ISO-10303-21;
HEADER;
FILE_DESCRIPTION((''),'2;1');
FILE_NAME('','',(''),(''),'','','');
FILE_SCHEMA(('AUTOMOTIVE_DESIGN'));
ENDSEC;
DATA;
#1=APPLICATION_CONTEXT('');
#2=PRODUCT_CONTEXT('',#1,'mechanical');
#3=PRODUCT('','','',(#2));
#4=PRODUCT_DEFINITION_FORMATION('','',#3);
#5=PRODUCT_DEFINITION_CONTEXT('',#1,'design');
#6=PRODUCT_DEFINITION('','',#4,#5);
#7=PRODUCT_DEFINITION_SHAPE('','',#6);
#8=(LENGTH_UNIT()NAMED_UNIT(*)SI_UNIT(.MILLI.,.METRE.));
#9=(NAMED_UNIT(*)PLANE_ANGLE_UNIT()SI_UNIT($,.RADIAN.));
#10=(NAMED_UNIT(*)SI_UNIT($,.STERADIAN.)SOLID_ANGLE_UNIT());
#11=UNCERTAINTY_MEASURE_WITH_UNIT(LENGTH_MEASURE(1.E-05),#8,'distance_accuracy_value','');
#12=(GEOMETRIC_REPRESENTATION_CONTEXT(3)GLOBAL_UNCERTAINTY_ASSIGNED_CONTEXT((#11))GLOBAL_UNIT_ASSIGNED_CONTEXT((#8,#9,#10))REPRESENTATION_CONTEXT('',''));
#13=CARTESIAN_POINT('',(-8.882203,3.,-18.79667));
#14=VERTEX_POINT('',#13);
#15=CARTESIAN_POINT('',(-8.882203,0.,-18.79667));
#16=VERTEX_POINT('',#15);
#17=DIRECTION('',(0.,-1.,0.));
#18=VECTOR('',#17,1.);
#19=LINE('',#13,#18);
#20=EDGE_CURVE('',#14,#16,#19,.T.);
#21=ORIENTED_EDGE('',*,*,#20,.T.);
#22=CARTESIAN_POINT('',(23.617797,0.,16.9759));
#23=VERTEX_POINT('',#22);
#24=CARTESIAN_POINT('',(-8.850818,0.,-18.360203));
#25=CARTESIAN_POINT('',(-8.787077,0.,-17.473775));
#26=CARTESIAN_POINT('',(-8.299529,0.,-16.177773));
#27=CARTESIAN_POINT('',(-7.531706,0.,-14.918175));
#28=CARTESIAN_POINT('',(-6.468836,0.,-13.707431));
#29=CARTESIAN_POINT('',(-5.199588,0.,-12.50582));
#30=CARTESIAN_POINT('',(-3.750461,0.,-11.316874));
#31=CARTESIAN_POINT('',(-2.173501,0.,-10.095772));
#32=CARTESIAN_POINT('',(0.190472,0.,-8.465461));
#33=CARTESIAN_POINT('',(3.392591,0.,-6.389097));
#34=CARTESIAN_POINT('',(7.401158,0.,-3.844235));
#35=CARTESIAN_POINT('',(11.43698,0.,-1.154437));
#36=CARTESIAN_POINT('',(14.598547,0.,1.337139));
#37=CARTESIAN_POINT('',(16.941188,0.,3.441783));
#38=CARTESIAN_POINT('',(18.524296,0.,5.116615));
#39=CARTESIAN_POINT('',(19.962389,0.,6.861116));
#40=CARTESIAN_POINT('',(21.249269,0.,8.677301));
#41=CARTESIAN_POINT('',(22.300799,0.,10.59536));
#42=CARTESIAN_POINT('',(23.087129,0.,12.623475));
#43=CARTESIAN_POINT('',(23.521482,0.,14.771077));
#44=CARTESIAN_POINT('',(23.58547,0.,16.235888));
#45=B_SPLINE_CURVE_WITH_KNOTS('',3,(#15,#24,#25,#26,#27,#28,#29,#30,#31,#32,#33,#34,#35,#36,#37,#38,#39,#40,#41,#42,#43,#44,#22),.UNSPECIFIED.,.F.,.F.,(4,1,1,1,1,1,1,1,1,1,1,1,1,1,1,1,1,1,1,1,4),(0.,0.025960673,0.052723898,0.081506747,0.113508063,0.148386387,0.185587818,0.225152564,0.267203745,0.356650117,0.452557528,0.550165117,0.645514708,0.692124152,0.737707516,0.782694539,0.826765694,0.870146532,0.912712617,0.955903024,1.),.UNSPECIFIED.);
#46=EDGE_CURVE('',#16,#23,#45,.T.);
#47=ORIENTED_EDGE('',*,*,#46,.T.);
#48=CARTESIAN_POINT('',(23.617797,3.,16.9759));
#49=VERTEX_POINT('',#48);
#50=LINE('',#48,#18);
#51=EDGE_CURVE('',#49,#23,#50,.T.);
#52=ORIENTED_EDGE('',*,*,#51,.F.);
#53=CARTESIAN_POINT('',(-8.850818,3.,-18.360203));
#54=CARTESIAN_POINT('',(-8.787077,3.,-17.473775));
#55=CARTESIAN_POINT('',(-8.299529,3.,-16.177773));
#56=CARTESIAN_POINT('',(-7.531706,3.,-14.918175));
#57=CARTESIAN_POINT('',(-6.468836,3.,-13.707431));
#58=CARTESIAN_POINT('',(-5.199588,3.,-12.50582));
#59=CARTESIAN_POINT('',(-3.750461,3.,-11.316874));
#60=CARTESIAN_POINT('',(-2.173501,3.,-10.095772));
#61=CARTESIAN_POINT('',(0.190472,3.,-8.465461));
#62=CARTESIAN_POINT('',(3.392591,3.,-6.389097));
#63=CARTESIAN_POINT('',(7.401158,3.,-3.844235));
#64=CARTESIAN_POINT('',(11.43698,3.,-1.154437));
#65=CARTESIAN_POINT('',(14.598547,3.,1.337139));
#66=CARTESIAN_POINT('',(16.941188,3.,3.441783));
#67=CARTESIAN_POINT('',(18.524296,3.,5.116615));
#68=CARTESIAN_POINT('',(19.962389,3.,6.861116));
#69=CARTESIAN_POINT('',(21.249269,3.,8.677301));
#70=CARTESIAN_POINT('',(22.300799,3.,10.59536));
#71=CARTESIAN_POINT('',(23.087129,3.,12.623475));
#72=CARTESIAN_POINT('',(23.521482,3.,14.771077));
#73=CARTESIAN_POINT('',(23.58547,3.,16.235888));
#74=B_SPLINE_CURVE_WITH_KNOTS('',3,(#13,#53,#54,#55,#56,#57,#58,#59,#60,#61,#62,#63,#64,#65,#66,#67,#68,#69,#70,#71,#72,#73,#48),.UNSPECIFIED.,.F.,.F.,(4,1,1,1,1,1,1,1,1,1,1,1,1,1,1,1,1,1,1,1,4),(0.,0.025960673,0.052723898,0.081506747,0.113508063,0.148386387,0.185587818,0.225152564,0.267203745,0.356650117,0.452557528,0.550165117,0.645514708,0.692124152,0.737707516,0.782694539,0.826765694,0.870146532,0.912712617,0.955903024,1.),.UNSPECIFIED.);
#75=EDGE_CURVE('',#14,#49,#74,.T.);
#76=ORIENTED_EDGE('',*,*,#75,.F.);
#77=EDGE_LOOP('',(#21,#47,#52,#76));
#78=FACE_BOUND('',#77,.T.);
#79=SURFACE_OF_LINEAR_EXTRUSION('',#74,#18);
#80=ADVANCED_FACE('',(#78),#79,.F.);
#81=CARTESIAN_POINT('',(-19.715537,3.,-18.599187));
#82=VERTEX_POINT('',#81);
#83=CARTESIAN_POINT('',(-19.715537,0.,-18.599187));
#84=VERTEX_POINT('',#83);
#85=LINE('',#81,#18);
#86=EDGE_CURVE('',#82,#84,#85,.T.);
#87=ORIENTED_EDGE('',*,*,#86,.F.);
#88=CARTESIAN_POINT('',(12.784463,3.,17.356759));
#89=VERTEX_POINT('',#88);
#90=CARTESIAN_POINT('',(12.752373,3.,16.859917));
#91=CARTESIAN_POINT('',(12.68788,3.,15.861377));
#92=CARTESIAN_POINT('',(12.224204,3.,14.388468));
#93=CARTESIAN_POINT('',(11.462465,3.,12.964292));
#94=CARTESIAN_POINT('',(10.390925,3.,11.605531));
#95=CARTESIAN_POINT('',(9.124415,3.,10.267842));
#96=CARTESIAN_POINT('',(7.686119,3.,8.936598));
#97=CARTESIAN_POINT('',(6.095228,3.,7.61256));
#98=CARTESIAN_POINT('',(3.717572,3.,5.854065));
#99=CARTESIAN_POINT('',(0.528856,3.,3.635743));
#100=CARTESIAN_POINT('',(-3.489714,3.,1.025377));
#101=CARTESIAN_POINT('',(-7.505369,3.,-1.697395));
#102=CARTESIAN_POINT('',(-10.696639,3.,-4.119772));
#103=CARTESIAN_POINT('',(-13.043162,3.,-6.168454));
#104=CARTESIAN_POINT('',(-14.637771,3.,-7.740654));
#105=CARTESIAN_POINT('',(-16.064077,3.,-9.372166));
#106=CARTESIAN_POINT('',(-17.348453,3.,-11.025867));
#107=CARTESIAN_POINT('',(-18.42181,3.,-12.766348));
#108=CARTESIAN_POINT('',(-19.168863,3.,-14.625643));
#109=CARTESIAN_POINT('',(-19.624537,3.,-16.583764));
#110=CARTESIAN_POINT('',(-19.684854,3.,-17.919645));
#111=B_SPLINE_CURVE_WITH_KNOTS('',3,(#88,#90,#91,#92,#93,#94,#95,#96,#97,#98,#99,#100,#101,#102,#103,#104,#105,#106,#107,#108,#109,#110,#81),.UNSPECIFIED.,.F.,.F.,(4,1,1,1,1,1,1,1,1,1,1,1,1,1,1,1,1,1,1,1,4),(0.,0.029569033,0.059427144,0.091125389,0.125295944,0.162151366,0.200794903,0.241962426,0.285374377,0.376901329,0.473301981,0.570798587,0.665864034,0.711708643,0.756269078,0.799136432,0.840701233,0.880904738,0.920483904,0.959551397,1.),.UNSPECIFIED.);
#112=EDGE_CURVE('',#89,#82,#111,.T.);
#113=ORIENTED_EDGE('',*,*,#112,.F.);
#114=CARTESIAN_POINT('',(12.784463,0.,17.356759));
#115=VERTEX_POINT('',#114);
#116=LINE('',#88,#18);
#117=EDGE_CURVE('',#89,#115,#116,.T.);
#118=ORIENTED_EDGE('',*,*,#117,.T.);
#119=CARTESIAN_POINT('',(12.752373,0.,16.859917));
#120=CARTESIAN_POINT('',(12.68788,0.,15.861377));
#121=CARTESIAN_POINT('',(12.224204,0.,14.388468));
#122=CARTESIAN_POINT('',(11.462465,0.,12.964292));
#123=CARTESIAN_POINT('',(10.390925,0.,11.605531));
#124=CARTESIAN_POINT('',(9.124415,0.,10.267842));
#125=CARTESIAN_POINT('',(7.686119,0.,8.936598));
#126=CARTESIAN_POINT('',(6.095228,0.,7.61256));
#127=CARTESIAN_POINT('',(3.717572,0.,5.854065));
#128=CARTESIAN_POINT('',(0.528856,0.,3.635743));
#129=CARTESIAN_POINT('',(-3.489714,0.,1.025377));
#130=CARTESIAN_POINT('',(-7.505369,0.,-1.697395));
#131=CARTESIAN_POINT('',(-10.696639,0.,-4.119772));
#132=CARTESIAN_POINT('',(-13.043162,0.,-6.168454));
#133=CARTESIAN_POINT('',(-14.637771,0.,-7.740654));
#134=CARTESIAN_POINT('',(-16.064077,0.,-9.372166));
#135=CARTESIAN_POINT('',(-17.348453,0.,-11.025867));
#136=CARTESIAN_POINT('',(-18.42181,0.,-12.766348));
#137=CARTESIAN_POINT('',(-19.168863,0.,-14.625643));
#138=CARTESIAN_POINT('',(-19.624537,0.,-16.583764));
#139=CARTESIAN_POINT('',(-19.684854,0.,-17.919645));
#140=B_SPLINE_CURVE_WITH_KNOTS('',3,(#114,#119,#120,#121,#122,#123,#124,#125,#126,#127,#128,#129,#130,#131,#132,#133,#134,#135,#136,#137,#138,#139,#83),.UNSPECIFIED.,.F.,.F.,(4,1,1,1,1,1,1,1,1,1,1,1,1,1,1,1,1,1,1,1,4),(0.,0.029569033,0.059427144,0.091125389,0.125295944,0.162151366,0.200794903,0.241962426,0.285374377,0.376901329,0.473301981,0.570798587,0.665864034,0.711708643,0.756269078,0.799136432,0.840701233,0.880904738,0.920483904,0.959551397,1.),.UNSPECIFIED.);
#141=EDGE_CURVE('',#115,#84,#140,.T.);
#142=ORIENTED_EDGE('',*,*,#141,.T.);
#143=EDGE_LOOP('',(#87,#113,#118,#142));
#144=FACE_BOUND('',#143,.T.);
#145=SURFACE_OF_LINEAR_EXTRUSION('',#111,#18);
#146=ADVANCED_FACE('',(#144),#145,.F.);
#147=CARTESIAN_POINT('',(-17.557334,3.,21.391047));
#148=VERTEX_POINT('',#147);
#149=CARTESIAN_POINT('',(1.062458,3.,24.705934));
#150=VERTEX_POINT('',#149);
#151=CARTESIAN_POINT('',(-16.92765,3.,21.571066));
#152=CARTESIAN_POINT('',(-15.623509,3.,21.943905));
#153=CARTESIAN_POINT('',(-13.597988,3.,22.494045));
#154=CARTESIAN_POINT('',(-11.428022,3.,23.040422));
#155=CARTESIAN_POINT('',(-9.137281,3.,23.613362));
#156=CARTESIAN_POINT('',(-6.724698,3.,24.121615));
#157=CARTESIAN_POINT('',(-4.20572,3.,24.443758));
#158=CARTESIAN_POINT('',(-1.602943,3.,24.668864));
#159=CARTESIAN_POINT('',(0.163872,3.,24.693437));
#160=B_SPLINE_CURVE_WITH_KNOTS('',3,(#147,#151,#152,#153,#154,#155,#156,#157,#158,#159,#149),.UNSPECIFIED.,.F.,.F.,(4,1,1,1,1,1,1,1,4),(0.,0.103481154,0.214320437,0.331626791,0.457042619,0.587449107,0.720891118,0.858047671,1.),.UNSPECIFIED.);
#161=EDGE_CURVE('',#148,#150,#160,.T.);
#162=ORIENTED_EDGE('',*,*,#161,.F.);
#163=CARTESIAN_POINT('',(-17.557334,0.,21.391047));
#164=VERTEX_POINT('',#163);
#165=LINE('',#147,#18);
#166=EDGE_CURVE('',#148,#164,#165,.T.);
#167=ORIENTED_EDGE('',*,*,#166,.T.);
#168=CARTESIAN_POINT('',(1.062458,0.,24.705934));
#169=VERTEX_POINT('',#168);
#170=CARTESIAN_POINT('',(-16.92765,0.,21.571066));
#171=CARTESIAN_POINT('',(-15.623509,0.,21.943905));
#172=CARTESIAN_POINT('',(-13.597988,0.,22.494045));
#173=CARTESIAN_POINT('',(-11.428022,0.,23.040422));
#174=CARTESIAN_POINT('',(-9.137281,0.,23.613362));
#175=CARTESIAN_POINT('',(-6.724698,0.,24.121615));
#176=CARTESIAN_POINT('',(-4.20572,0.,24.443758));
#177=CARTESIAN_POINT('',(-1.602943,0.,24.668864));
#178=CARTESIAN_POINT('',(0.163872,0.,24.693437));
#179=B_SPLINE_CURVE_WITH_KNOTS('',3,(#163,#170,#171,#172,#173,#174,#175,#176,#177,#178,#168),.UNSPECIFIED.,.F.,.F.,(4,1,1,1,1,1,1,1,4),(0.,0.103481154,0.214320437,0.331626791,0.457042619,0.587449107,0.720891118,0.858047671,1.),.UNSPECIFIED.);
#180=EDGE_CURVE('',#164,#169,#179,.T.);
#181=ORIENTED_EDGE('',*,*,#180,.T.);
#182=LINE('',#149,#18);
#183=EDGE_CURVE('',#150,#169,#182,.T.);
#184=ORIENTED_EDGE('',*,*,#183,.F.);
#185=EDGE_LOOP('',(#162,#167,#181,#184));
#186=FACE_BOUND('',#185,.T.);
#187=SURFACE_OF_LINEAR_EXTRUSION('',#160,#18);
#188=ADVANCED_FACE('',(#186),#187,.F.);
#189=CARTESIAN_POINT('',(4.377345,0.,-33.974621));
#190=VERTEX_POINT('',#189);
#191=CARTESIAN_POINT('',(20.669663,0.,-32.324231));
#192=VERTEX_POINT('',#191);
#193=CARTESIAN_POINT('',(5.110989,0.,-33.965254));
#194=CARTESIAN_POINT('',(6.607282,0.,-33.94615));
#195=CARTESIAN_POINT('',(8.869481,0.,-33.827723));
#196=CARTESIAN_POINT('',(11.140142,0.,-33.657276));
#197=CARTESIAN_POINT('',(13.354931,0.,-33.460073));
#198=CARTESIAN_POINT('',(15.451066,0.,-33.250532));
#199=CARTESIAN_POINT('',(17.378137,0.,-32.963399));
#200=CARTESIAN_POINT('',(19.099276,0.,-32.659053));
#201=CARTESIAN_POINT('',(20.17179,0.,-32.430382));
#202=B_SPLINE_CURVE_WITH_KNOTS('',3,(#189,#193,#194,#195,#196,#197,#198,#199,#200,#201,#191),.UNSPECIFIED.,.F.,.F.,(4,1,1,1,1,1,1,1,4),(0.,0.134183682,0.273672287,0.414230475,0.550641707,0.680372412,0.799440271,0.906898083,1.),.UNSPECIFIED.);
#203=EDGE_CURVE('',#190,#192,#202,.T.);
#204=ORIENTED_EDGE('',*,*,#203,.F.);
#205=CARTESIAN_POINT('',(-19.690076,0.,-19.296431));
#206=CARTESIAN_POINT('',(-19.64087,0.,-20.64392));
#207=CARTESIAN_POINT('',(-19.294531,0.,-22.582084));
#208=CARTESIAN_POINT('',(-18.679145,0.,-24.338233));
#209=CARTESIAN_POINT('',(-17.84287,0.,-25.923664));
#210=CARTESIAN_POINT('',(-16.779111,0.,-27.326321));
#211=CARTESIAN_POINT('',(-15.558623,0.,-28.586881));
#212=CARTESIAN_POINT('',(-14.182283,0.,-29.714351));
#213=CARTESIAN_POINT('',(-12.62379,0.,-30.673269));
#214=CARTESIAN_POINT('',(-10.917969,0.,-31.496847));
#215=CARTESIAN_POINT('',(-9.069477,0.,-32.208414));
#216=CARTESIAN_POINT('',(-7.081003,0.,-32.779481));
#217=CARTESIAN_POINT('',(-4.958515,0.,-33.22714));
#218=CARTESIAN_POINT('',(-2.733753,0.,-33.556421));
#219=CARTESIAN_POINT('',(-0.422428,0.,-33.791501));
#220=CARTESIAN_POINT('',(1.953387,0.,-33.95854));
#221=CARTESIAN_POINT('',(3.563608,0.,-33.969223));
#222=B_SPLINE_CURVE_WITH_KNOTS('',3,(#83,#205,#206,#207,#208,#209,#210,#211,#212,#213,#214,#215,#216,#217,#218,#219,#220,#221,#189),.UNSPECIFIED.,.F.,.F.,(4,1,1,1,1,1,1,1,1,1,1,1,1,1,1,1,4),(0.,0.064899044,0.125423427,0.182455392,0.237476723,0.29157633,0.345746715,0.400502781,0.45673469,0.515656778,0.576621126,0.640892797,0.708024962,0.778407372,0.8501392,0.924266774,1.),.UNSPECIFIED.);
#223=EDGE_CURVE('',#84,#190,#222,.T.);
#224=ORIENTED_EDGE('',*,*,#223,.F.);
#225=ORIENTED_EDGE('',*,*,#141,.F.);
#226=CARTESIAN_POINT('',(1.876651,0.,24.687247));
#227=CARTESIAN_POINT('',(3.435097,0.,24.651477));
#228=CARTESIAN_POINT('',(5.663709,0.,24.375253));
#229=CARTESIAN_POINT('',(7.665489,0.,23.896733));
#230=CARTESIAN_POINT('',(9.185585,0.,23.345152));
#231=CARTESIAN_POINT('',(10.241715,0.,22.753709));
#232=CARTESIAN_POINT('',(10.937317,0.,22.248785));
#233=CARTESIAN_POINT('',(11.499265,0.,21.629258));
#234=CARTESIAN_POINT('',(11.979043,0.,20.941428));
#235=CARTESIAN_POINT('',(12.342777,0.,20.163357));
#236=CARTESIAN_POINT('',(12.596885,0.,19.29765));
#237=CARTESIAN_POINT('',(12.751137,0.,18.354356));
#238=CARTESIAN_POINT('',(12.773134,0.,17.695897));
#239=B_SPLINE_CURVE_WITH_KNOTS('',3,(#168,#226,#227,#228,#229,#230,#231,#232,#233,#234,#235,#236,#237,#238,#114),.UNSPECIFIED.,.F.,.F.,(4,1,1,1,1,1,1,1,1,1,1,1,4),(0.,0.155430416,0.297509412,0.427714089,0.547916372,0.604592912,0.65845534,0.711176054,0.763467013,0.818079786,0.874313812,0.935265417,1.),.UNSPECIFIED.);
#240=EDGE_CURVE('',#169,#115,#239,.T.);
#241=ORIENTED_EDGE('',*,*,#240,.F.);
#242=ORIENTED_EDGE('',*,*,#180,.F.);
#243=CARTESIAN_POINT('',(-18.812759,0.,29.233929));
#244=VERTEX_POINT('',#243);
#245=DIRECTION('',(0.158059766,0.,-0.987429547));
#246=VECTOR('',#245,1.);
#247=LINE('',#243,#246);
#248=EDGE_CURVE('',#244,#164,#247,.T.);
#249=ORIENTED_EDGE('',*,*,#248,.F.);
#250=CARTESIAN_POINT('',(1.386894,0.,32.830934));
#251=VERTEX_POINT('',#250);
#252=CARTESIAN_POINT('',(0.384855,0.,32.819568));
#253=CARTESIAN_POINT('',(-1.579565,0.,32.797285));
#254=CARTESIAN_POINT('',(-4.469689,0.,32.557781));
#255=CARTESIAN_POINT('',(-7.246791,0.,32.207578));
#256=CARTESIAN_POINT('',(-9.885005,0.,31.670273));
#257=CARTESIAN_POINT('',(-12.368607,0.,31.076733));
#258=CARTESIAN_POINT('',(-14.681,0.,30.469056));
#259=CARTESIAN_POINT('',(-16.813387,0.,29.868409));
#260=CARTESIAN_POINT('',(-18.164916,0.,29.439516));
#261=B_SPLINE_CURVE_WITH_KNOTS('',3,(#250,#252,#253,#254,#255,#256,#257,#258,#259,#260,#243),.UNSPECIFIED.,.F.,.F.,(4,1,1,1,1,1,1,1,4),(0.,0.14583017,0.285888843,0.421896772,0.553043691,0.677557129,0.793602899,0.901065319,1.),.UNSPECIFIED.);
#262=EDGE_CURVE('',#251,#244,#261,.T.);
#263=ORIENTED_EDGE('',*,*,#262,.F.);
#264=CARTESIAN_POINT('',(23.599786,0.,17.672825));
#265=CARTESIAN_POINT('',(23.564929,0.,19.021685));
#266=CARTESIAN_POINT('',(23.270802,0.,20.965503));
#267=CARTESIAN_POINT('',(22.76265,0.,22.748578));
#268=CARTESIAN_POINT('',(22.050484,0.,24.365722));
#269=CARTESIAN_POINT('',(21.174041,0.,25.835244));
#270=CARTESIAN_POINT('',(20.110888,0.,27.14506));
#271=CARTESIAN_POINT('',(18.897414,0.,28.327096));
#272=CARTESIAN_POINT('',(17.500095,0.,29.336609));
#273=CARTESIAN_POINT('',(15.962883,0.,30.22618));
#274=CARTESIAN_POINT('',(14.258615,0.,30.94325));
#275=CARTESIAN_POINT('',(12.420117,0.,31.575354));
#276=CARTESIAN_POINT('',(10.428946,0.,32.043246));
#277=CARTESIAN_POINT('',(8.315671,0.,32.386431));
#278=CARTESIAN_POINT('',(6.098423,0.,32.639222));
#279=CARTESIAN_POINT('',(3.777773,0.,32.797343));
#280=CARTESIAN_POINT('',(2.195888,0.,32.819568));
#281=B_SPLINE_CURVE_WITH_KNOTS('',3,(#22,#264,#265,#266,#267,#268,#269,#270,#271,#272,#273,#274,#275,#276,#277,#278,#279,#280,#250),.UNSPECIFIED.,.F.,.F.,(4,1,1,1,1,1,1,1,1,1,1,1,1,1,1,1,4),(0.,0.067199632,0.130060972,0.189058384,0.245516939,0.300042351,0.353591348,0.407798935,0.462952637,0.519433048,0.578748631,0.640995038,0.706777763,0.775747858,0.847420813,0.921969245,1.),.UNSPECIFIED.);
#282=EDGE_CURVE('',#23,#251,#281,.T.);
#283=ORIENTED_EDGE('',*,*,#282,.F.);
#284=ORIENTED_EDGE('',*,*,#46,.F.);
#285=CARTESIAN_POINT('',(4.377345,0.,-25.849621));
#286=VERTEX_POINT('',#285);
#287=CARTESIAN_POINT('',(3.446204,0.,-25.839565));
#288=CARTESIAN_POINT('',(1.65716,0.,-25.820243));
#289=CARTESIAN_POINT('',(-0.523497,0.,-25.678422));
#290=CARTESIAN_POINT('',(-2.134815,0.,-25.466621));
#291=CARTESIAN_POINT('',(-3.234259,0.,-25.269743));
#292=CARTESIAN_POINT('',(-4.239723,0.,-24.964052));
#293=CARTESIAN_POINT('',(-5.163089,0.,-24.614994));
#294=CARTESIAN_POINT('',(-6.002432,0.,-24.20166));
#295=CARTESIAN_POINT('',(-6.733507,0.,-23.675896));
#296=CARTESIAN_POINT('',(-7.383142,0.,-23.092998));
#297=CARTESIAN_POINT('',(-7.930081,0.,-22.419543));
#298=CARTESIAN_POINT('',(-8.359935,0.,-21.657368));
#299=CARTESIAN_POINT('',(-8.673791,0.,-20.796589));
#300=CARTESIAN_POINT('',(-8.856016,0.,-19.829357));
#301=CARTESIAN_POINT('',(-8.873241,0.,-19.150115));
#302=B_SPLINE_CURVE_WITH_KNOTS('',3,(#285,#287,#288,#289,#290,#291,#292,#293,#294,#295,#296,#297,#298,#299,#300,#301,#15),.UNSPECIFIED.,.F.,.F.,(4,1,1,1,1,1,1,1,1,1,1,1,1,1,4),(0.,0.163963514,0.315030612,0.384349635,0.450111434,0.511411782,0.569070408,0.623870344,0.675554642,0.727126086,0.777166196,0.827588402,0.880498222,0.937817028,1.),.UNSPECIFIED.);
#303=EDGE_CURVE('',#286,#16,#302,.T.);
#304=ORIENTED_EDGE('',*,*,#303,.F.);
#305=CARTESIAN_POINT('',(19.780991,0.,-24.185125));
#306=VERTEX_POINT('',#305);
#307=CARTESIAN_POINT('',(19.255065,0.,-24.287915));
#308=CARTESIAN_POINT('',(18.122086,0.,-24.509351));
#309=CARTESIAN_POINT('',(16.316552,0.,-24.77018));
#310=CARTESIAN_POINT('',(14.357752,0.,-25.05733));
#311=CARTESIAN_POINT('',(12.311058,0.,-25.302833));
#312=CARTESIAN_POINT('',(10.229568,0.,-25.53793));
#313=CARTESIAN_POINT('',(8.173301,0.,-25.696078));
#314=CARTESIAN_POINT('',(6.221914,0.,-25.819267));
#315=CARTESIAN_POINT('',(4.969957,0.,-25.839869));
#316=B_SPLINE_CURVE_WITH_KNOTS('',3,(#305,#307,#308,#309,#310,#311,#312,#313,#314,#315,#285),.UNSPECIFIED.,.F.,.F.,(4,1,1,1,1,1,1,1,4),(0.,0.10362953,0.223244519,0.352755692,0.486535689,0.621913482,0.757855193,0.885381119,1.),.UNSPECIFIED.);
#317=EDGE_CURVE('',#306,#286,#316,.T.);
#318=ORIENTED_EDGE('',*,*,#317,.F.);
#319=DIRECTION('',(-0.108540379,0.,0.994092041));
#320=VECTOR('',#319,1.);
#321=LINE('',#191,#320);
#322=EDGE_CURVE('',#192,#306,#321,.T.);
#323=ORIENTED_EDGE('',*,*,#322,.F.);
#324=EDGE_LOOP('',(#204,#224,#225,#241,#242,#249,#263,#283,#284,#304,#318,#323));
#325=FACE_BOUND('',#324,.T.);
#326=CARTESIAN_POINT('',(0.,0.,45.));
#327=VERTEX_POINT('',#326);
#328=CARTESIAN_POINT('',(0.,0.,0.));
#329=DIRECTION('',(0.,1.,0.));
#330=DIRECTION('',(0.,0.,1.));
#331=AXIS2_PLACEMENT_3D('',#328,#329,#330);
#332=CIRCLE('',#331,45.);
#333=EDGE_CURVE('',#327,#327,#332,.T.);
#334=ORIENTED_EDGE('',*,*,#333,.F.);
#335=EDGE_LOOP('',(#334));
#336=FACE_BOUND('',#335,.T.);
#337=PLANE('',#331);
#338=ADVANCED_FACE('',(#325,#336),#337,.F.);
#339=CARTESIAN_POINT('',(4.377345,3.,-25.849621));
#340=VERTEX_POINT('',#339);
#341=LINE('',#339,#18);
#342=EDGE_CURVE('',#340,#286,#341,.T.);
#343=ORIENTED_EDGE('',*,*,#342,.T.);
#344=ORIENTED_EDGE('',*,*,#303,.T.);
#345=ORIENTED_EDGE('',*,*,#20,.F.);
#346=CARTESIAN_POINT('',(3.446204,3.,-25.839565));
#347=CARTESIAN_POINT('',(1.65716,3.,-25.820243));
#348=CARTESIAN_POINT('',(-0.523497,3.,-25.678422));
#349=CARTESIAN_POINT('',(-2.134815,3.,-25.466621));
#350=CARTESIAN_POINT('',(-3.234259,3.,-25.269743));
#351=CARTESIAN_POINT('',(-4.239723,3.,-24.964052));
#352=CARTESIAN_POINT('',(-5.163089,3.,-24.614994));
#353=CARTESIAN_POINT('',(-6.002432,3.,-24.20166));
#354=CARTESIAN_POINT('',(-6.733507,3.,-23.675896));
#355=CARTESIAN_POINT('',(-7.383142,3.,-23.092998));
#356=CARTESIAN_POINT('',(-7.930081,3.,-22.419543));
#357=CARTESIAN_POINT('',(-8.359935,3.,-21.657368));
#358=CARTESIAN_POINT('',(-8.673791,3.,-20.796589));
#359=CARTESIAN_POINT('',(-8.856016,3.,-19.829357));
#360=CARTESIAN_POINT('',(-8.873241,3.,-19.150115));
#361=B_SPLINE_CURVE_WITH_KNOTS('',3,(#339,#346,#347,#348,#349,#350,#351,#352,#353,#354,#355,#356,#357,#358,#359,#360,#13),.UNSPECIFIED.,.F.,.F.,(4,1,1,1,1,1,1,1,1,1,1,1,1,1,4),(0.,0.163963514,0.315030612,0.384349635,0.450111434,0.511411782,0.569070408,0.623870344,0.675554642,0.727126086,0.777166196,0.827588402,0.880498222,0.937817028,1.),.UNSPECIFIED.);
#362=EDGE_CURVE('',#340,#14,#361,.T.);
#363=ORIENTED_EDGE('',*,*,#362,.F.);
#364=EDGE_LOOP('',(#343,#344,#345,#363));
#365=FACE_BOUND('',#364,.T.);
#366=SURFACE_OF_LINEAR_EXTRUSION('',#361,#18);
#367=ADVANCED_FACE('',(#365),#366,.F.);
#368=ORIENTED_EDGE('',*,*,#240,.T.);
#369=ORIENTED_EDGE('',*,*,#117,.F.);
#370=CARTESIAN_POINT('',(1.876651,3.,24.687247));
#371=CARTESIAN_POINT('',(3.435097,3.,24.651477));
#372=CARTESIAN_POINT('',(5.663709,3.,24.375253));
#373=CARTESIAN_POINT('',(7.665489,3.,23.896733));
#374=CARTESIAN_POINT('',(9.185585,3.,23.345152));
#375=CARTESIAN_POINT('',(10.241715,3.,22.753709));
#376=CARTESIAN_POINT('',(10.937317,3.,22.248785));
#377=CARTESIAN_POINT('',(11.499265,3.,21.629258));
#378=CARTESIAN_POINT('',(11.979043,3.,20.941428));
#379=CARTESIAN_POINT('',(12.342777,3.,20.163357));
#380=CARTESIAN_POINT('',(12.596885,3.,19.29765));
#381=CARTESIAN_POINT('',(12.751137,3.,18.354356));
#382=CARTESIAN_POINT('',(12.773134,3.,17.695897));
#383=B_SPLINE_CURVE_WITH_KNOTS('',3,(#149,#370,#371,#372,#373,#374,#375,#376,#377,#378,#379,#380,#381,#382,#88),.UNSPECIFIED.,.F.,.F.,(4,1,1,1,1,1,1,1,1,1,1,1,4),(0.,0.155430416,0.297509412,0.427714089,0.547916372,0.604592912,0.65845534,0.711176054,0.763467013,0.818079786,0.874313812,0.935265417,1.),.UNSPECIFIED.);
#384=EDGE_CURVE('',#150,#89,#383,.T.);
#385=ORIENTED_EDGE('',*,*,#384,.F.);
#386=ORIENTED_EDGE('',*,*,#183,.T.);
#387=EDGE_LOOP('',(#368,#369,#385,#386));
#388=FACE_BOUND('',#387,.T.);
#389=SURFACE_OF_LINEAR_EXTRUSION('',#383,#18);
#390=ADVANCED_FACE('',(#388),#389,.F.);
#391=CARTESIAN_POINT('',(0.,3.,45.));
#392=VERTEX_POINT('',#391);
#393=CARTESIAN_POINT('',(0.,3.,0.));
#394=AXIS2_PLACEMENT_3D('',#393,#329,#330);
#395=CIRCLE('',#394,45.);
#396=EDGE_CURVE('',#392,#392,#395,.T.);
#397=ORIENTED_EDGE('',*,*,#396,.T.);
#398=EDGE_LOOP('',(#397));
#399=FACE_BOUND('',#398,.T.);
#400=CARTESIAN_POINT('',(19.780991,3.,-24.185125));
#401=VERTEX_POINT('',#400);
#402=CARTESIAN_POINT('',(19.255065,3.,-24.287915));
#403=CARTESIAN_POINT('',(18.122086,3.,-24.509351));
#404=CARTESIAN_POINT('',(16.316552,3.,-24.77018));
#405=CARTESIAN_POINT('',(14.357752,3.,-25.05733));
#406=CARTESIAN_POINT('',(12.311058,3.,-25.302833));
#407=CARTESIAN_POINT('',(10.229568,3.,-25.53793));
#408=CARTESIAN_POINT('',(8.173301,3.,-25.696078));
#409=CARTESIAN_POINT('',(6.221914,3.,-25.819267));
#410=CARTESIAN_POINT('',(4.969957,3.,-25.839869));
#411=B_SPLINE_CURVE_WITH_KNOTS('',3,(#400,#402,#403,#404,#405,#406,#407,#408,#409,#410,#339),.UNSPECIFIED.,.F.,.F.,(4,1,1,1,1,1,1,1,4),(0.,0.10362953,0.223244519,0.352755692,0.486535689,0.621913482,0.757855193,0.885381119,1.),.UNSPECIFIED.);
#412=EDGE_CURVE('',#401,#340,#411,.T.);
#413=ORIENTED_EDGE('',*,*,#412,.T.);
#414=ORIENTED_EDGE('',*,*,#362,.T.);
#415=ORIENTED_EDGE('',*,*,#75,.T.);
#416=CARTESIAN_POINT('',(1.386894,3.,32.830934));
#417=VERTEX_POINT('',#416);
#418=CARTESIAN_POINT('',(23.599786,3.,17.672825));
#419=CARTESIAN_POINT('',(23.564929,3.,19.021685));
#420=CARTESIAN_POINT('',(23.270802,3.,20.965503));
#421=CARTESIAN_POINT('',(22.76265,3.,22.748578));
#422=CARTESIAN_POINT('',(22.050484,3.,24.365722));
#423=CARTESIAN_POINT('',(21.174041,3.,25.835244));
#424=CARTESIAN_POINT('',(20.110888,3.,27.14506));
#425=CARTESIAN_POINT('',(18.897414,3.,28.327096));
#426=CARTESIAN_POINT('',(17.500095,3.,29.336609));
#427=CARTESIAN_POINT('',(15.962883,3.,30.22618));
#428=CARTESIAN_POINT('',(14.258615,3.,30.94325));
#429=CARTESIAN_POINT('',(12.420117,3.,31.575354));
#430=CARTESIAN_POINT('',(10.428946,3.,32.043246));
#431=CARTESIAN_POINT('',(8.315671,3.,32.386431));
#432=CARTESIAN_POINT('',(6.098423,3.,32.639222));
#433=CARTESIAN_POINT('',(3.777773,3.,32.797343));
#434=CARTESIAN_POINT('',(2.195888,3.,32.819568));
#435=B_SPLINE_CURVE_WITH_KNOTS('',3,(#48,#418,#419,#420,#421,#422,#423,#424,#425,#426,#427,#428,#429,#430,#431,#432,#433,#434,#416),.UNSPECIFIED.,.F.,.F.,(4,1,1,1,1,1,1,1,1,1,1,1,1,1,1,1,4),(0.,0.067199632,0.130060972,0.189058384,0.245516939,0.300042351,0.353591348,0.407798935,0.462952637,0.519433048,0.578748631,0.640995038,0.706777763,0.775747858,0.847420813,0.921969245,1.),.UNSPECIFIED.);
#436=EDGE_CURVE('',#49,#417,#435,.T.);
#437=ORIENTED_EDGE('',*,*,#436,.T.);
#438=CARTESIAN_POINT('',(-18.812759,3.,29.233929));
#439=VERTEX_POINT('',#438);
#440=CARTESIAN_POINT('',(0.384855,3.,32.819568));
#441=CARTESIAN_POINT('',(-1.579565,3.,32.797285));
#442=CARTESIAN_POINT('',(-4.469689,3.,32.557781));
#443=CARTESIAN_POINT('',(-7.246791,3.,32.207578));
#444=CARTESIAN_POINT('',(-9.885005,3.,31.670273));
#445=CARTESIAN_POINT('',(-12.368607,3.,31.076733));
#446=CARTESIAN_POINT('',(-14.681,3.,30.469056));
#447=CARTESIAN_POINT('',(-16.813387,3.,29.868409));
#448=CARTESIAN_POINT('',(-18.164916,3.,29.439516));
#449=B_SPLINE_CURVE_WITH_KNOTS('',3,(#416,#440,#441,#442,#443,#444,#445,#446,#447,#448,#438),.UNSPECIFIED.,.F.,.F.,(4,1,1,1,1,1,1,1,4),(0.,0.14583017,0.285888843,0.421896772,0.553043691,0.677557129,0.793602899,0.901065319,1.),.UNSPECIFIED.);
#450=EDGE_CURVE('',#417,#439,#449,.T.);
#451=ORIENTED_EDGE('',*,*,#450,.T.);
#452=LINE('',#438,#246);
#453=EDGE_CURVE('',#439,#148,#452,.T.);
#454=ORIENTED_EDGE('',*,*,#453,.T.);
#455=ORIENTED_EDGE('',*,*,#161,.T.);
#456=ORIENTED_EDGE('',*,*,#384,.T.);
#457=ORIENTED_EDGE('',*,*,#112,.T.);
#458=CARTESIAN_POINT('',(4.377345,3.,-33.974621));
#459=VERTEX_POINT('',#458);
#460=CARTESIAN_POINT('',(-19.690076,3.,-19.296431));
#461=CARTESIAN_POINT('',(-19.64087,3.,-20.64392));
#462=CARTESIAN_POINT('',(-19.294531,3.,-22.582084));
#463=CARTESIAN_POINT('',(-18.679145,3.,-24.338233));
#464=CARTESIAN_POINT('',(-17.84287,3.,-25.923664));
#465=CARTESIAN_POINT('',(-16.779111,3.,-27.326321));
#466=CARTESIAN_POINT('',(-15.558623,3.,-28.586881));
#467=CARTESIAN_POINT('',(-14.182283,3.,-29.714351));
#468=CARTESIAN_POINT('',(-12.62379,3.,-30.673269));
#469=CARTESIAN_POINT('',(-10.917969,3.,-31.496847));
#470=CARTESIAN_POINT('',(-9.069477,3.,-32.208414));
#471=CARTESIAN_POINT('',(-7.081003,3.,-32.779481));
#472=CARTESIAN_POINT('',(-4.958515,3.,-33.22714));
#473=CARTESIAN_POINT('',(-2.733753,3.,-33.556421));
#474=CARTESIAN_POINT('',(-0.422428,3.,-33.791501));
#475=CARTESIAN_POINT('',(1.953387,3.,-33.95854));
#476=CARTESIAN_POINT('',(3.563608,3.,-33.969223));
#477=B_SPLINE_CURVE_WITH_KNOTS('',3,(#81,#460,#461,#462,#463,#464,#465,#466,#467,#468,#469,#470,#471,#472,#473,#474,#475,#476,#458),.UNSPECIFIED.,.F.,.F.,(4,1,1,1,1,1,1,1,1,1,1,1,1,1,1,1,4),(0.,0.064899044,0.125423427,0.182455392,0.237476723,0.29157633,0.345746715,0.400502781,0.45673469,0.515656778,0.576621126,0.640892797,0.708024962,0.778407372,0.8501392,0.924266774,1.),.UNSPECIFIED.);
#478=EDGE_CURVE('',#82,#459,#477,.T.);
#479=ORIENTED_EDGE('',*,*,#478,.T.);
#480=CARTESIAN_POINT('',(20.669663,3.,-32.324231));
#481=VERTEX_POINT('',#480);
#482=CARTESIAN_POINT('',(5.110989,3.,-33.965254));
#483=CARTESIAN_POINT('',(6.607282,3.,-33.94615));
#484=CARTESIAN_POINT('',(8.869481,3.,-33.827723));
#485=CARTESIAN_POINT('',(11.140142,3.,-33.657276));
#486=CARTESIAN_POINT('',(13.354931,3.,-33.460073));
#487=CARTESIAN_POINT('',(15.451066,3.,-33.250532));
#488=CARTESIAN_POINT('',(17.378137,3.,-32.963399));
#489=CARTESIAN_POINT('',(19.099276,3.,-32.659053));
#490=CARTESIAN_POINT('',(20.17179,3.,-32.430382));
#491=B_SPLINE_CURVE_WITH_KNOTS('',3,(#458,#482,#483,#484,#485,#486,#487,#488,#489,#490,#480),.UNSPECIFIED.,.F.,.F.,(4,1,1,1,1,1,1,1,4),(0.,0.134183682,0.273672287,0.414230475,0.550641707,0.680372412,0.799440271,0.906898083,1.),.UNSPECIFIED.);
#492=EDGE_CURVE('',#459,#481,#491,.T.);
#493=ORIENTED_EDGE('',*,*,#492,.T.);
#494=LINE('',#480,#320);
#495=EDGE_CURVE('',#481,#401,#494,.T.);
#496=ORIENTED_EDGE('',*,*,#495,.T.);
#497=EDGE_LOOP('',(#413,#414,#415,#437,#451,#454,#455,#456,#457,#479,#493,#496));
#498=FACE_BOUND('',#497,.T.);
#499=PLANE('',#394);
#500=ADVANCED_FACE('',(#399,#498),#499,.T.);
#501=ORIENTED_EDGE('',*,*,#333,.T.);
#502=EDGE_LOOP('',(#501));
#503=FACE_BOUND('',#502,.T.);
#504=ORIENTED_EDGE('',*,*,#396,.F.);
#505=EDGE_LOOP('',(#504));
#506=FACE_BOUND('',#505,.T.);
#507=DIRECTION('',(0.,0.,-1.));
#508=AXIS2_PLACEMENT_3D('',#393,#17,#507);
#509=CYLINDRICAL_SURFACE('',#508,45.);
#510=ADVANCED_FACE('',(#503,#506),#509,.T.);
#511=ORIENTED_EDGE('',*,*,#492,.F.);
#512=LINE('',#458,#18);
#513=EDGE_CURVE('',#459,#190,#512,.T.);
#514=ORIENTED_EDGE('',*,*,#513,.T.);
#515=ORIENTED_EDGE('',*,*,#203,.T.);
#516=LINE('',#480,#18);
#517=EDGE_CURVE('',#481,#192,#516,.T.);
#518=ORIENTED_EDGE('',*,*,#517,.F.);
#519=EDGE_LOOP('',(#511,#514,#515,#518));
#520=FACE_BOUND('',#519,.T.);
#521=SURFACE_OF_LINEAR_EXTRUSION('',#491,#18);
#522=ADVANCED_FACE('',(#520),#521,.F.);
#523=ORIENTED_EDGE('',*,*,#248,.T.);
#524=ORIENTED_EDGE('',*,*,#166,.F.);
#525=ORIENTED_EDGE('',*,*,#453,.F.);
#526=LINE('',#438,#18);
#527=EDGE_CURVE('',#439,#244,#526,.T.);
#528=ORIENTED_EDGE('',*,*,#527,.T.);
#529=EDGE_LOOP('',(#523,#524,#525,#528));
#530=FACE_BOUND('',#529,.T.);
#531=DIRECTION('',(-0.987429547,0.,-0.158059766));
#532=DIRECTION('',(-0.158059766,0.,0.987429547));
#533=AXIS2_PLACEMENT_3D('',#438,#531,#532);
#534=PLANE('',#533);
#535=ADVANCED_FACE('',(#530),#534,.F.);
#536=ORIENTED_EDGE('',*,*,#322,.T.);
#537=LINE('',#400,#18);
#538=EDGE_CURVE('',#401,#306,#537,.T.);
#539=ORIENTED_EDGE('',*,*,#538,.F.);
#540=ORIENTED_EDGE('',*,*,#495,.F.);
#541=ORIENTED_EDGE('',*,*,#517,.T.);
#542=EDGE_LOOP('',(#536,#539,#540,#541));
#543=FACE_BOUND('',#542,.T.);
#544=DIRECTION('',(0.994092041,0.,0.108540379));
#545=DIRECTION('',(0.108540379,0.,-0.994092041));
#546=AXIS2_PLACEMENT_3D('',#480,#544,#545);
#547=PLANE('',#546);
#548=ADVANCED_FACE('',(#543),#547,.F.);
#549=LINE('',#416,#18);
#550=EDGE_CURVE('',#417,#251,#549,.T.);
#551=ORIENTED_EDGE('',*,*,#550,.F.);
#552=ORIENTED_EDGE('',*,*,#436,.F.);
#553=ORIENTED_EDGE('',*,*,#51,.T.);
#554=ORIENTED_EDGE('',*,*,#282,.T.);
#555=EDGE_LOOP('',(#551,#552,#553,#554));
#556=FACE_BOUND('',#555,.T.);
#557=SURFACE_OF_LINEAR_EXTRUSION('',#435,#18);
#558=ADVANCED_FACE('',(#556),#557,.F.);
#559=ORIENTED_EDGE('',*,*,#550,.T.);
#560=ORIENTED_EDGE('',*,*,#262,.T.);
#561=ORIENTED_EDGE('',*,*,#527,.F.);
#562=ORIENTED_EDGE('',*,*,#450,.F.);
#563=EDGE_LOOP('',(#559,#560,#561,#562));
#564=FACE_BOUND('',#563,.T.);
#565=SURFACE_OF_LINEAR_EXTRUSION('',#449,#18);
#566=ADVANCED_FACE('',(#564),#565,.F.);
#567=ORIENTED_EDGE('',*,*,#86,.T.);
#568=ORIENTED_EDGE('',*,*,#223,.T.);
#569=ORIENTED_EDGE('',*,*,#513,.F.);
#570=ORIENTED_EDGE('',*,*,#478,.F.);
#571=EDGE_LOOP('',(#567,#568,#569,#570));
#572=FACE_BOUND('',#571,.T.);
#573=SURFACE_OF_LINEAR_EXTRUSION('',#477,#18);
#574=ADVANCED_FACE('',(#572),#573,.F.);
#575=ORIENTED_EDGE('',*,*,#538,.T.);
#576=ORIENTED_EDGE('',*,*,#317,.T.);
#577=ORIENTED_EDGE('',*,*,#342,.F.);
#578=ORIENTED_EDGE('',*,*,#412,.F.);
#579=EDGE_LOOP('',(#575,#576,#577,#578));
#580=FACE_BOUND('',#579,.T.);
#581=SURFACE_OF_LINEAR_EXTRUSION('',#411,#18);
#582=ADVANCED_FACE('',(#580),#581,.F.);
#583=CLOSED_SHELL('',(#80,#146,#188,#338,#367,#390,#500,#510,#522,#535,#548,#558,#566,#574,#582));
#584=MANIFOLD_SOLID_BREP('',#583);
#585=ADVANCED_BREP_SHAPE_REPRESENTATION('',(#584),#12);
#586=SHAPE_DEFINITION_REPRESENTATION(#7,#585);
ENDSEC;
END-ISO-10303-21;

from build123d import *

# Parameters (mm, degrees)
SKETCH1_R           = 45
BOSS_EXTRUDE1_DEPTH = 3


with BuildPart() as part:
    # Sketch1 → Boss-Extrude1 (new body)
    with BuildSketch(Plane(origin=(0, 0, 0), x_dir=(1, 0, 0), z_dir=(0, 1, 0))):
        with Locations(Location((0, 0, 0), (0, 0, 270))):  # turned: the seam where the file's is
            Circle(SKETCH1_R)
        with BuildLine():
            add(Edge.make_bspline(
                [(19.780990946, 24.185124764), (19.255065107, 24.287914798), (18.122086305, 24.509350826), (16.316551627, 24.770179957), (14.357752418, 25.057330128), (12.311058297, 25.302832973), (10.229567608, 25.537930243), (8.173301101, 25.696077882), (6.221913509, 25.819266557), (4.969956895, 25.839869106), (4.377345112, 25.849621292)],
                knots=[0, 0, 0, 0, 0.829036243, 1.785956155, 2.822045536, 3.89228551, 4.975307857, 6.062841547, 7.083048955, 8, 8, 8, 8], degree=3))
            add(Edge.make_bspline(
                [(4.377345112, 25.849621292), (3.446204146, 25.839565028), (1.65716034, 25.820243466), (-0.523497459, 25.678422406), (-2.134814502, 25.466621363), (-3.234258723, 25.269743374), (-4.239722547, 24.96405185), (-5.163089497, 24.614993657), (-6.002431575, 24.201660489), (-6.733506828, 23.675895663), (-7.383141898, 23.092997796), (-7.930081052, 22.419543279), (-8.359935091, 21.657367799), (-8.673790899, 20.796588784), (-8.856015855, 19.829357364), (-8.873240581, 19.150114951), (-8.882203499, 18.796669903)],
                knots=[0, 0, 0, 0, 2.295489194, 4.410428573, 5.380894891, 6.301560079, 7.159764947, 7.966985716, 8.734184816, 9.457764993, 10.179765198, 10.880326743, 11.586237622, 12.32697511, 13.129438398, 14, 14, 14, 14], degree=3))
            add(Edge.make_bspline(
                [(-8.882203499, 18.796669903), (-8.850818027, 18.360202528), (-8.787076829, 17.473774773), (-8.299529285, 16.177773231), (-7.531705877, 14.918174723), (-6.468835972, 13.707430879), (-5.199588079, 12.505820488), (-3.750460779, 11.316874284), (-2.173501164, 10.095772106), (0.19047217, 8.465461016), (3.392591141, 6.389097084), (7.401158074, 3.84423487), (11.436980484, 1.154437496), (14.598547163, -1.337138932), (16.941188197, -3.441782617), (18.524295541, -5.116615111), (19.962389169, -6.861115679), (21.249269366, -8.677300905), (22.30079899, -10.59536019), (23.087128729, -12.62347507), (23.521482235, -14.771077168), (23.585470219, -16.235887567), (23.617796501, -16.975899541)],
                knots=[0, 0, 0, 0, 0.519213468, 1.054477964, 1.630134935, 2.270161266, 2.967727746, 3.71175636, 4.503051278, 5.34407491, 7.13300234, 9.051150551, 11.003302341, 12.910294161, 13.842483047, 14.754150315, 15.653890787, 16.535313878, 17.40293064, 18.254252337, 19.118060482, 20, 20, 20, 20], degree=3))
            add(Edge.make_bspline(
                [(23.617796501, -16.975899541), (23.599786365, -17.672825423), (23.564928796, -19.021684862), (23.270802134, -20.965503255), (22.762650283, -22.748577872), (22.050483541, -24.36572214), (21.174041496, -25.835244154), (20.110888209, -27.14506), (18.897414426, -28.327096204), (17.50009469, -29.336609406), (15.962883146, -30.226180167), (14.258614821, -30.943249705), (12.420117395, -31.575353637), (10.428945987, -32.043245685), (8.315670511, -32.386430983), (6.098422851, -32.63922249), (3.77777338, -32.797342644), (2.195888092, -32.819567974), (1.386893723, -32.830934264)],
                knots=[0, 0, 0, 0, 1.075194104, 2.080975546, 3.024934148, 3.928271024, 4.800677613, 5.657461563, 6.524782954, 7.407242198, 8.310928775, 9.259978089, 10.255920614, 11.308444205, 12.411965724, 13.558733007, 14.751507922, 16, 16, 16, 16], degree=3))
            add(Edge.make_bspline(
                [(1.386893723, -32.830934264), (0.384854835, -32.819567929), (-1.579565413, -32.797285102), (-4.469689043, -32.557780783), (-7.246791058, -32.207577643), (-9.885005378, -31.670272649), (-12.368606742, -31.076733402), (-14.681000089, -30.469055859), (-16.813387105, -29.868409154), (-18.164915503, -29.439515535), (-18.812759054, -29.233929055)],
                knots=[0, 0, 0, 0, 1.166641361, 2.287110747, 3.375174177, 4.42434953, 5.420457035, 6.34882319, 7.208522552, 8, 8, 8, 8], degree=3))
            Line((-18.812759054, -29.233929055), (-17.557333707, -21.391047111))
            add(Edge.make_bspline(
                [(-17.557333707, -21.391047111), (-16.92765023, -21.571066227), (-15.623509008, -21.943904896), (-13.597987784, -22.494044975), (-11.428021788, -23.040422446), (-9.137280734, -23.613361679), (-6.72469763, -24.121615317), (-4.205720245, -24.443757714), (-1.60294269, -24.668864111), (0.163871673, -24.693436806), (1.062457959, -24.705934264)],
                knots=[0, 0, 0, 0, 0.82784923, 1.714563499, 2.653014331, 3.656340952, 4.699592855, 5.767128945, 6.864381369, 8, 8, 8, 8], degree=3))
            add(Edge.make_bspline(
                [(1.062457959, -24.705934264), (1.876650637, -24.687246807), (3.435097114, -24.651477141), (5.663708681, -24.375253087), (7.66548934, -23.896733066), (9.185584763, -23.345151534), (10.24171498, -22.753709402), (10.937316717, -22.248785046), (11.499265321, -21.629257743), (11.979043163, -20.941428467), (12.342776891, -20.163357249), (12.596885499, -19.297650342), (12.751136892, -18.354355508), (12.773133718, -17.695897336), (12.784463168, -17.356758916)],
                knots=[0, 0, 0, 0, 1.865164993, 3.57011294, 5.132569067, 6.57499646, 7.255114939, 7.901464084, 8.534112646, 9.161604161, 9.81695743, 10.491765748, 11.223185006, 12, 12, 12, 12], degree=3))
            add(Edge.make_bspline(
                [(12.784463168, -17.356758916), (12.752373418, -16.859917427), (12.687880197, -15.861377146), (12.224204459, -14.388468451), (11.462465357, -12.964292087), (10.390925154, -11.60553121), (9.124414869, -10.267841999), (7.686118718, -8.936597872), (6.095227969, -7.612559939), (3.717571546, -5.85406476), (0.52885577, -3.635742908), (-3.489713573, -1.025376634), (-7.505368863, 1.697395276), (-10.696639338, 4.119771578), (-13.043162038, 6.168454152), (-14.637770832, 7.740654265), (-16.064077212, 9.372166101), (-17.348452609, 11.025867113), (-18.42180964, 12.766347784), (-19.168862671, 14.625642809), (-19.624536603, 16.58376369), (-19.684854205, 17.919645128), (-19.715536832, 18.599187264)],
                knots=[0, 0, 0, 0, 0.591380666, 1.188542884, 1.822507787, 2.505918877, 3.243027329, 4.015898054, 4.839248524, 5.707487546, 7.538026587, 9.466039613, 11.415971731, 13.317280673, 14.234172866, 15.125381555, 15.982728632, 16.814024653, 17.618094752, 18.409678073, 19.191027939, 20, 20, 20, 20], degree=3))
            add(Edge.make_bspline(
                [(-19.715536832, 18.599187264), (-19.69007572, 19.296431103), (-19.640869758, 20.643919536), (-19.294531368, 22.582084159), (-18.679144546, 24.338232741), (-17.842869563, 25.923663704), (-16.779110741, 27.326321286), (-15.558622534, 28.586881396), (-14.182283058, 29.714351392), (-12.623789919, 30.673268851), (-10.917968821, 31.496846545), (-9.069476595, 32.208414475), (-7.081002803, 32.779480609), (-4.958515074, 33.227140213), (-2.733752509, 33.556420942), (-0.422428367, 33.79150112), (1.95338712, 33.958539874), (3.563608319, 33.969222666), (4.377345112, 33.974621292)],
                knots=[0, 0, 0, 0, 1.03838471, 2.006774832, 2.919286264, 3.799627568, 4.665221273, 5.531947435, 6.40804449, 7.307755042, 8.250508454, 9.225938019, 10.254284747, 11.328399385, 12.454517948, 13.602227205, 14.788268378, 16, 16, 16, 16], degree=3))
            add(Edge.make_bspline(
                [(4.377345112, 33.974621292), (5.110989126, 33.965254351), (6.607281613, 33.946150149), (8.869481458, 33.827722709), (11.14014177, 33.657276118), (13.354931043, 33.460072759), (15.4510663, 33.250532473), (17.378136504, 32.963398675), (19.099276185, 32.65905252), (20.171790498, 32.430381936), (20.669662821, 32.324230667)],
                knots=[0, 0, 0, 0, 1.073469456, 2.189378298, 3.313843796, 4.405133658, 5.442979297, 6.395522168, 7.255184668, 8, 8, 8, 8], degree=3))
            Line((20.669662821, 32.324230667), (19.780990946, 24.185124764))
        make_face(mode=Mode.SUBTRACT)
    extrude(amount=BOSS_EXTRUDE1_DEPTH)


solid = part.part
